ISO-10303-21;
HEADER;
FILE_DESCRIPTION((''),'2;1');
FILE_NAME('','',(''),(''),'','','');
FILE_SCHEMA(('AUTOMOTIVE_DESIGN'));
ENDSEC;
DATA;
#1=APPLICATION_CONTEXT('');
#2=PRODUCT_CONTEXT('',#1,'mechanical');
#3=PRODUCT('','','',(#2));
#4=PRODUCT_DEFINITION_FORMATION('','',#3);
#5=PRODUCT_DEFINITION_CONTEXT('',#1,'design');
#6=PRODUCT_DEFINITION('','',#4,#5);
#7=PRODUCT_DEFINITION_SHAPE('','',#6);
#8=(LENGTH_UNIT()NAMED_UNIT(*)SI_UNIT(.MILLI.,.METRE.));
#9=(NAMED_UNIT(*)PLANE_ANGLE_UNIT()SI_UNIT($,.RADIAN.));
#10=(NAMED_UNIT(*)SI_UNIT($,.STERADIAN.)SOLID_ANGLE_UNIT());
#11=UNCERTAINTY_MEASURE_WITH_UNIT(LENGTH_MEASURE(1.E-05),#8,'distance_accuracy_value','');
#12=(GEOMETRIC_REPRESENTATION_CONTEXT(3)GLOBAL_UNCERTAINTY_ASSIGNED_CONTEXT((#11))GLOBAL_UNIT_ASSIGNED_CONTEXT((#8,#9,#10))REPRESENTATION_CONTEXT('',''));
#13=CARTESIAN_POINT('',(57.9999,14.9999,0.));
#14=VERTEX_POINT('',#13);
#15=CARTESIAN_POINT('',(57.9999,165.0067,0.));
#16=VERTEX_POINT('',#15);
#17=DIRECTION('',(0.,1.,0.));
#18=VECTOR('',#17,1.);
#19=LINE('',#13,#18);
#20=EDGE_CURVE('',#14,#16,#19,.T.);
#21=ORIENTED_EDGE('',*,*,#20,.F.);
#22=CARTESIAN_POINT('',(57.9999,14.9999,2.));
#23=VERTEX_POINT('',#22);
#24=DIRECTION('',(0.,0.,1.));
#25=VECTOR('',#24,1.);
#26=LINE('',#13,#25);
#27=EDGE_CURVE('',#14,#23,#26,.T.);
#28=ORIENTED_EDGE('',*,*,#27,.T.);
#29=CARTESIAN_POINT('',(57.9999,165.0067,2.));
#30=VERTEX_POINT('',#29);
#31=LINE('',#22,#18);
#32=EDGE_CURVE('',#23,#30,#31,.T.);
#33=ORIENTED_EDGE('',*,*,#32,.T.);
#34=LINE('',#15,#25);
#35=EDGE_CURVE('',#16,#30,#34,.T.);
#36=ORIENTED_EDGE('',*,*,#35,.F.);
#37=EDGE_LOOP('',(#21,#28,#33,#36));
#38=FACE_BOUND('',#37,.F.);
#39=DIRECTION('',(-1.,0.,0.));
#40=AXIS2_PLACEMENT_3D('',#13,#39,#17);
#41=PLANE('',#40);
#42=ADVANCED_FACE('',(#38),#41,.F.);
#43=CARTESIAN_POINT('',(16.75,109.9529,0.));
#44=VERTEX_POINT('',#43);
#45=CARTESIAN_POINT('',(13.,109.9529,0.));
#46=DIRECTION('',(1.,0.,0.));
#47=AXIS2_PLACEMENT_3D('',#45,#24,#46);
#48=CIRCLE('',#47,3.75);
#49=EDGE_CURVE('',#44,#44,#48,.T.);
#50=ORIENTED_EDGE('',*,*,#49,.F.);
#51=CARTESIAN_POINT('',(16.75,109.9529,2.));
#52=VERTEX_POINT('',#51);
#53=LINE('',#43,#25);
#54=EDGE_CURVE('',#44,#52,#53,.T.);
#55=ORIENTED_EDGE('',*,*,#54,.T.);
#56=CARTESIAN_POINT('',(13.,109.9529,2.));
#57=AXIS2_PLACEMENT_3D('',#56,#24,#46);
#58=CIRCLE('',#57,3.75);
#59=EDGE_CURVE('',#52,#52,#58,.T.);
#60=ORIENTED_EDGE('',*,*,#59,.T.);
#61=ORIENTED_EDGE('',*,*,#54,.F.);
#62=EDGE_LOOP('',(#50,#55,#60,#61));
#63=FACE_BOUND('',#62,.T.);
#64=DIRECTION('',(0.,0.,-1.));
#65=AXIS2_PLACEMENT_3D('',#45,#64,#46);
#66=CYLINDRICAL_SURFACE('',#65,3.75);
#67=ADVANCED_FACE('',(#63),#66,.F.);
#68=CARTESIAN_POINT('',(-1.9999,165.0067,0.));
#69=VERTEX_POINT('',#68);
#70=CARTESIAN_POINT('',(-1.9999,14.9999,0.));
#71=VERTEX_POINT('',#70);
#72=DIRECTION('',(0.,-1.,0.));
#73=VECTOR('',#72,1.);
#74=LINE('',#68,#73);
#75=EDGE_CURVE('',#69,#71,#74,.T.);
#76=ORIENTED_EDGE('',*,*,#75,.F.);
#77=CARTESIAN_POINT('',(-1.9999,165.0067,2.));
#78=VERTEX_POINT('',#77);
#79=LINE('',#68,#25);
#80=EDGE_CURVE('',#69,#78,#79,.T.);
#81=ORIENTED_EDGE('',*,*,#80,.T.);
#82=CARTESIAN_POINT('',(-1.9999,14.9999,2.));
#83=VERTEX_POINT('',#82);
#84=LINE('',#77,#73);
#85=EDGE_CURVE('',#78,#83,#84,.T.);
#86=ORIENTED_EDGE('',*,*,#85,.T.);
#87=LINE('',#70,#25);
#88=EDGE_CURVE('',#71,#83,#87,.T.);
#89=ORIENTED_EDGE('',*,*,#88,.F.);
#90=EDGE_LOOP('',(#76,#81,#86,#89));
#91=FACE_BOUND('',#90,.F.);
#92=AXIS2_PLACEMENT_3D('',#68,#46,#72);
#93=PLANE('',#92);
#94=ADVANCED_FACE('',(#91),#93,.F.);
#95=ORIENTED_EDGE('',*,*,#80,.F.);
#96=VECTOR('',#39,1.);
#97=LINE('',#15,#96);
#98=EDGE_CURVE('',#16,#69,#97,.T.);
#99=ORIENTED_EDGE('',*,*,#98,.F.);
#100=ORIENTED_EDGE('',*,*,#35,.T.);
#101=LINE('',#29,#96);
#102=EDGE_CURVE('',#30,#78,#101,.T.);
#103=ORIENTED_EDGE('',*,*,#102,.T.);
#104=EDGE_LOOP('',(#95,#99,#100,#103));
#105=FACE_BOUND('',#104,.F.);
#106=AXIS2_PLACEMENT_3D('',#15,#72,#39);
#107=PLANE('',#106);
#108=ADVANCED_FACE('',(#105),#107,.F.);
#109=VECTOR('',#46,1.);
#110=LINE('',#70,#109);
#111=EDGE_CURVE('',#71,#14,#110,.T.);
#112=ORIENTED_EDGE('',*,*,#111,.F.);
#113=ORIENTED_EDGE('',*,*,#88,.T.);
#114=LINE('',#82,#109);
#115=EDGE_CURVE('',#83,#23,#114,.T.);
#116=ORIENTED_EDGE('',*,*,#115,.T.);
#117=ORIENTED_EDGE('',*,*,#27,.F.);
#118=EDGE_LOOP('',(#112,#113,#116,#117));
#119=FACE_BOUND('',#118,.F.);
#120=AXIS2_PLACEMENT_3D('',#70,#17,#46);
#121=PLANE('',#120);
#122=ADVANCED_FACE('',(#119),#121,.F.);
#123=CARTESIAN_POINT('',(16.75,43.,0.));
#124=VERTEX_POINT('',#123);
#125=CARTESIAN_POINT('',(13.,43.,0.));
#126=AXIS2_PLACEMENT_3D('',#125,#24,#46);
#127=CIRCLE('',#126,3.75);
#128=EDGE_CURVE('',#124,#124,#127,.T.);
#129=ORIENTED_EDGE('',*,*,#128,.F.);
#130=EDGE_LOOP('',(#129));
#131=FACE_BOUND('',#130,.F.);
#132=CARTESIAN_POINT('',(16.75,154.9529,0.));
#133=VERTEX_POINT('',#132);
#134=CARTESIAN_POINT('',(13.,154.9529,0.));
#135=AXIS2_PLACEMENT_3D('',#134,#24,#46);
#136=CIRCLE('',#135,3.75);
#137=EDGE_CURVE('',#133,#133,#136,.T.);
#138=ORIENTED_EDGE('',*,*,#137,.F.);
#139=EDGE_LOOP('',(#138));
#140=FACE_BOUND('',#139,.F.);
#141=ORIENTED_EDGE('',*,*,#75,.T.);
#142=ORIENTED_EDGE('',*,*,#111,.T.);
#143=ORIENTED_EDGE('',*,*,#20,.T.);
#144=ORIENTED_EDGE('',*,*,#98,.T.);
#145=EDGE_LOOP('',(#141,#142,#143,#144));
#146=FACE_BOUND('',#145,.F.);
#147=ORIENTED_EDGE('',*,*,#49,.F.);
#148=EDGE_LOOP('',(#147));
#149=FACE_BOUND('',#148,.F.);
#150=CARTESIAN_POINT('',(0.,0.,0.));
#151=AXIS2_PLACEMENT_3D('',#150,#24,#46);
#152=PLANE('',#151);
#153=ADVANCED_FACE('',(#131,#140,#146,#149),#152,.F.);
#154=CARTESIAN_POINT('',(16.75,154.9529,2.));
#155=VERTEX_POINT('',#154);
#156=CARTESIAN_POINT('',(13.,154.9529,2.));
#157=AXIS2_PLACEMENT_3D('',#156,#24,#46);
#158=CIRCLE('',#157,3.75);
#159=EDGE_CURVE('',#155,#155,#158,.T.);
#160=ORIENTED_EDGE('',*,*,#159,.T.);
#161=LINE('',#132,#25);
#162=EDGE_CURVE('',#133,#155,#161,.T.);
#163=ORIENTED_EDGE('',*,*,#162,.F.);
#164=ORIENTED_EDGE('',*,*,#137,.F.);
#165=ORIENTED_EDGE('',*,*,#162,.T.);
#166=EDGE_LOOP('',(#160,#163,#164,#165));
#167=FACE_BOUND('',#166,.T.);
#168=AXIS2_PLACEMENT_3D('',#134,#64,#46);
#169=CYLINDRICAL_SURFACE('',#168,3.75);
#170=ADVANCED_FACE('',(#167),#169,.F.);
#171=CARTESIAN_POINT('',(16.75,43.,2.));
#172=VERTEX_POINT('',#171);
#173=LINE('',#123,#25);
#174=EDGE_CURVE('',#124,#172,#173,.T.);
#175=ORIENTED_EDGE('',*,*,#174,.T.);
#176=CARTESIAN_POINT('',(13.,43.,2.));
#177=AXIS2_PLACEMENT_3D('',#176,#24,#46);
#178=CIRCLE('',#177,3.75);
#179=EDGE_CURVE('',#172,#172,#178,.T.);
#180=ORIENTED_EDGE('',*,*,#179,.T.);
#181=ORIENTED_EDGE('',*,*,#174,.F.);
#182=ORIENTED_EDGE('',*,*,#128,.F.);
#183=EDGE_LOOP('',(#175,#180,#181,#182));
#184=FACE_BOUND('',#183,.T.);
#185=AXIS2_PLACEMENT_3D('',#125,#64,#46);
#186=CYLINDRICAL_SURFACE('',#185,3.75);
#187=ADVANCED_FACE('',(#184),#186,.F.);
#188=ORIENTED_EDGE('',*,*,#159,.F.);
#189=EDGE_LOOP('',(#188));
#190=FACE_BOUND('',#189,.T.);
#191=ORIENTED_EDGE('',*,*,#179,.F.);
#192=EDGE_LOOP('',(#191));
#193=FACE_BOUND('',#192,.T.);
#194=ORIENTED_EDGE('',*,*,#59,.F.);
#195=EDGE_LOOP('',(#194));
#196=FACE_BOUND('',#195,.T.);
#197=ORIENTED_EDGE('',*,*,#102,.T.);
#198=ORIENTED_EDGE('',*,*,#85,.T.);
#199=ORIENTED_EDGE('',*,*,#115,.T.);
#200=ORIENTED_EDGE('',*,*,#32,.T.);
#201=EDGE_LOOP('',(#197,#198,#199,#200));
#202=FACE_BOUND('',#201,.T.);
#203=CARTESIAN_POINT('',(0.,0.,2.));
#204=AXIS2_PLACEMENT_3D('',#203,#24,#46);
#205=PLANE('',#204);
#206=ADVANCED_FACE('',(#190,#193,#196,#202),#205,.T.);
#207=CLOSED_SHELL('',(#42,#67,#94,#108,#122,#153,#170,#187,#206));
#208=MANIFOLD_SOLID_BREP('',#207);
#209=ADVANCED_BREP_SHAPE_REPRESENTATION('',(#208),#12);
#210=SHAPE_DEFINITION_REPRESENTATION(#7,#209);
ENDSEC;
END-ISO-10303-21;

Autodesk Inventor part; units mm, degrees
ref_plane "YZ Plane" through (0, 0, 0) normal (1, 0, 0) x (0, 1, 0)
ref_plane "XZ Plane" through (0, 0, 0) normal (0, 1, 0) x (-1, 0, 0)
ref_plane "XY Plane" through (0, 0, 0) normal (0, 0, 1) x (1, 0, 0)
sketch "Sketch1" plane through (0, 0, 0) normal (0, 0, 1) x (1, 0, 0)
  line L0 (16.1981, 153.4586) -> (16.9799, 152.4795) construction
  arc A0 (16.1981, 153.4586) -> (16.1981, 156.4471) centre (13, 154.9529) ccw construction
  line L1 (16.9799, 157.4262) -> (16.1981, 156.4471) construction
  arc A1 (16.9799, 157.4262) -> (15.4733, 158.9328) centre (16.1422, 158.0951) ccw construction
  line L2 (14.4942, 158.151) -> (15.4733, 158.9328) construction
  arc A2 (14.4942, 158.151) -> (11.5058, 158.151) centre (13, 154.9529) ccw construction
  line L3 (10.5267, 158.9328) -> (11.5058, 158.151) construction
  arc A3 (10.5267, 158.9328) -> (9.0201, 157.4262) centre (9.8578, 158.0951) ccw construction
  line L4 (9.8019, 156.4471) -> (9.0201, 157.4262) construction
  arc A4 (9.8019, 156.4471) -> (9.8019, 153.4586) centre (13, 154.9529) ccw construction
  line L5 (9.0201, 152.4795) -> (9.8019, 153.4586) construction
  arc A5 (9.0201, 152.4795) -> (10.5267, 150.9729) centre (9.8578, 151.8106) ccw construction
  line L6 (11.5058, 151.7547) -> (10.5267, 150.9729) construction
  arc A6 (11.5058, 151.7547) -> (14.4942, 151.7547) centre (13, 154.9529) ccw construction
  line L7 (15.4733, 150.9729) -> (14.4942, 151.7547) construction
  arc A7 (15.4733, 150.9729) -> (16.9799, 152.4795) centre (16.1422, 151.8106) ccw construction
  line L8 (26.6999, 145.0719) -> (26.6999, 142.2529) construction
  arc A8 (26.6999, 145.0719) -> (26.319, 145.4529) centre (26.319, 145.0719) ccw construction
  line L9 (22.88, 145.4529) -> (26.319, 145.4529) construction
  arc A9 (22.88, 145.4529) -> (22.5, 145.0729) centre (22.88, 145.0729) ccw construction
  line L10 (22.5, 141.6339) -> (22.5, 145.0729) construction
  arc A10 (22.5, 141.6339) -> (22.881, 141.2529) centre (22.881, 141.6339) ccw construction
  line L11 (25.7, 141.2529) -> (22.881, 141.2529) construction
  arc A11 (25.7, 141.2529) -> (26.6999, 142.2529) centre (25.7, 142.2529) ccw construction
  line L12 (-0.6999, 164.8338) -> (-0.6999, 167.6528) construction
  arc A12 (-0.6999, 164.8338) -> (-0.3189, 164.4528) centre (-0.3189, 164.8338) ccw construction
  line L13 (3.12, 164.4528) -> (-0.3189, 164.4528) construction
  arc A13 (3.12, 164.4528) -> (3.5, 164.8328) centre (3.12, 164.8328) ccw construction
  line L14 (3.5, 168.2718) -> (3.5, 164.8328) construction
  arc A14 (3.5, 168.2718) -> (3.119, 168.6528) centre (3.119, 168.2718) ccw construction
  line L15 (0.3001, 168.6528) -> (3.119, 168.6528) construction
  arc A15 (0.3001, 168.6528) -> (-0.6999, 167.6528) centre (0.3001, 167.6528) ccw construction
  line L16 (22.881, 168.6528) -> (25.7, 168.6528) construction
  arc A16 (22.881, 168.6528) -> (22.5, 168.2718) centre (22.881, 168.2718) ccw construction
  line L17 (22.5, 164.8328) -> (22.5, 168.2718) construction
  arc A17 (22.5, 164.8328) -> (22.88, 164.4528) centre (22.88, 164.8328) ccw construction
  line L18 (26.319, 164.4528) -> (22.88, 164.4528) construction
  arc A18 (26.319, 164.4528) -> (26.6999, 164.8338) centre (26.319, 164.8338) ccw construction
  line L19 (26.6999, 167.6528) -> (26.6999, 164.8338) construction
  arc A19 (26.6999, 167.6528) -> (25.7, 168.6528) centre (25.7, 167.6528) ccw construction
  line L20 (-0.3189, 145.4529) -> (3.12, 145.4529) construction
  arc A20 (-0.3189, 145.4529) -> (-0.6999, 145.0719) centre (-0.3189, 145.0719) ccw construction
  line L21 (-0.6999, 142.2529) -> (-0.6999, 145.0719) construction
  arc A21 (-0.6999, 142.2529) -> (0.3001, 141.2529) centre (0.3001, 142.2529) ccw construction
  line L22 (3.119, 141.2529) -> (0.3001, 141.2529) construction
  arc A22 (3.119, 141.2529) -> (3.5, 141.6339) centre (3.119, 141.6339) ccw construction
  line L23 (3.5, 145.0729) -> (3.5, 141.6339) construction
  arc A23 (3.5, 145.0729) -> (3.12, 145.4529) centre (3.12, 145.0729) ccw construction
  line L24 (8.5, 142.2104) -> (5.2675, 142.2104) construction
  arc A24 (9, 141.7104) -> (8.5, 142.2104) centre (8.5, 141.7104) ccw construction
  line L25 (9, 140.4529) -> (9, 141.7104) construction
  arc A25 (8.5, 139.9529) -> (9, 140.4529) centre (8.5, 140.4529) ccw construction
  line L26 (0.0001, 139.9529) -> (8.5, 139.9529) construction
  arc A26 (-1.9999, 141.9529) -> (0.0001, 139.9529) centre (0.0001, 141.9529) ccw construction
  line L27 (-1.9999, 150.4529) -> (-1.9999, 141.9529) construction
  arc A27 (-1.4999, 150.9529) -> (-1.9999, 150.4529) centre (-1.4999, 150.4529) ccw construction
  line L28 (-0.2425, 150.9529) -> (-1.4999, 150.9529) construction
  arc A28 (0.2575, 150.4529) -> (-0.2425, 150.9529) centre (-0.2425, 150.4529) ccw construction
  line L29 (0.2575, 147.2203) -> (0.2575, 150.4529) construction
  arc A29 (0.2575, 147.2203) -> (0.7572, 146.7029) centre (0.7572, 147.2029) ccw construction
  line L30 (2.7398, 146.7029) -> (0.7572, 146.7029) construction
  arc A30 (2.7398, 146.7029) -> (3.0934, 146.8493) centre (2.7398, 147.2029) ccw construction
  line L31 (7.0189, 150.7749) -> (3.0934, 146.8493) construction
  arc A31 (7.0189, 150.7749) -> (7.1653, 151.1284) centre (6.6653, 151.1284) ccw construction
  line L32 (7.1653, 154.0029) -> (7.1653, 151.1284) construction
  line L33 (7.6753, 154.9529) -> (7.1653, 154.0029) construction
  line L34 (7.1653, 155.9029) -> (7.6753, 154.9529) construction
  line L35 (7.1653, 158.7773) -> (7.1653, 155.9029) construction
  arc A32 (7.1653, 158.7773) -> (7.0189, 159.1309) centre (6.6653, 158.7773) ccw construction
  line L36 (3.0934, 163.0564) -> (7.0189, 159.1309) construction
  arc A33 (3.0934, 163.0564) -> (2.7398, 163.2028) centre (2.7398, 162.7028) ccw construction
  line L37 (0.7572, 163.2028) -> (2.7398, 163.2028) construction
  arc A34 (0.7572, 163.2028) -> (0.2575, 162.6854) centre (0.7572, 162.7028) ccw construction
  line L38 (0.2575, 159.4529) -> (0.2575, 162.6854) construction
  arc A35 (-0.2425, 158.9529) -> (0.2575, 159.4529) centre (-0.2425, 159.4529) ccw construction
  line L39 (-1.4999, 158.9529) -> (-0.2425, 158.9529) construction
  arc A36 (-1.9999, 159.4529) -> (-1.4999, 158.9529) centre (-1.4999, 159.4529) ccw construction
  line L40 (-1.9999, 167.9528) -> (-1.9999, 159.4529) construction
  arc A37 (0.0001, 169.9528) -> (-1.9999, 167.9528) centre (0.0001, 167.9528) ccw construction
  line L41 (8.5, 169.9528) -> (0.0001, 169.9528) construction
  arc A38 (9, 169.4528) -> (8.5, 169.9528) centre (8.5, 169.4528) ccw construction
  line L42 (9, 168.1953) -> (9, 169.4528) construction
  arc A39 (8.5, 167.6953) -> (9, 168.1953) centre (8.5, 168.1953) ccw construction
  line L43 (5.2675, 167.6953) -> (8.5, 167.6953) construction
  arc A40 (5.2675, 167.6953) -> (4.75, 167.1956) centre (5.25, 167.1956) ccw construction
  line L44 (4.75, 165.2131) -> (4.75, 167.1956) construction
  arc A41 (4.75, 165.2131) -> (4.8965, 164.8595) centre (5.25, 165.2131) ccw construction
  line L45 (8.822, 160.934) -> (4.8965, 164.8595) construction
  arc A42 (8.822, 160.934) -> (9.1756, 160.7875) centre (9.1756, 161.2875) ccw construction
  line L46 (12.1125, 160.7875) -> (9.1756, 160.7875) construction
  line L47 (13.0625, 160.2775) -> (12.1125, 160.7875) construction
  line L48 (14.0125, 160.7875) -> (13.0625, 160.2775) construction
  line L49 (16.8245, 160.7875) -> (14.0125, 160.7875) construction
  arc A43 (16.8245, 160.7875) -> (17.178, 160.934) centre (16.8245, 161.2875) ccw construction
  line L50 (21.1035, 164.8595) -> (17.178, 160.934) construction
  arc A44 (21.1035, 164.8595) -> (21.25, 165.2131) centre (20.75, 165.2131) ccw construction
  line L51 (21.25, 167.1956) -> (21.25, 165.2131) construction
  arc A45 (21.25, 167.1956) -> (20.7325, 167.6953) centre (20.75, 167.1956) ccw construction
  line L52 (17.5, 167.6953) -> (20.7325, 167.6953) construction
  arc A46 (17, 168.1953) -> (17.5, 167.6953) centre (17.5, 168.1953) ccw construction
  line L53 (17, 169.4528) -> (17, 168.1953) construction
  arc A47 (17.5, 169.9528) -> (17, 169.4528) centre (17.5, 169.4528) ccw construction
  line L54 (26, 169.9528) -> (17.5, 169.9528) construction
  arc A48 (27.9999, 167.9528) -> (26, 169.9528) centre (26, 167.9528) ccw construction
  line L55 (27.9999, 159.4529) -> (27.9999, 167.9528) construction
  arc A49 (27.4999, 158.9529) -> (27.9999, 159.4529) centre (27.4999, 159.4529) ccw construction
  line L56 (26.2425, 158.9529) -> (27.4999, 158.9529) construction
  arc A50 (25.7425, 159.4529) -> (26.2425, 158.9529) centre (26.2425, 159.4529) ccw construction
  line L57 (25.7425, 162.6854) -> (25.7425, 159.4529) construction
  arc A51 (25.7425, 162.6854) -> (25.2428, 163.2028) centre (25.2428, 162.7028) ccw construction
  line L58 (23.2602, 163.2028) -> (25.2428, 163.2028) construction
  arc A52 (23.2602, 163.2028) -> (22.9066, 163.0564) centre (23.2602, 162.7028) ccw construction
  line L59 (18.9811, 159.1309) -> (22.9066, 163.0564) construction
  arc A53 (18.9811, 159.1309) -> (18.8347, 158.7773) centre (19.3347, 158.7773) ccw construction
  line L60 (18.8347, 155.9029) -> (18.8347, 158.7773) construction
  line L61 (18.3247, 154.9529) -> (18.8347, 155.9029) construction
  line L62 (18.8347, 154.0029) -> (18.3247, 154.9529) construction
  line L63 (18.8347, 151.1284) -> (18.8347, 154.0029) construction
  arc A54 (18.8347, 151.1284) -> (18.9811, 150.7749) centre (19.3347, 151.1284) ccw construction
  line L64 (22.9066, 146.8493) -> (18.9811, 150.7749) construction
  arc A55 (22.9066, 146.8493) -> (23.2602, 146.7029) centre (23.2602, 147.2029) ccw construction
  line L65 (25.2428, 146.7029) -> (23.2602, 146.7029) construction
  arc A56 (25.2428, 146.7029) -> (25.7425, 147.2203) centre (25.2428, 147.2029) ccw construction
  line L66 (25.7425, 150.4529) -> (25.7425, 147.2203) construction
  arc A57 (26.2425, 150.9529) -> (25.7425, 150.4529) centre (26.2425, 150.4529) ccw construction
  line L67 (27.4999, 150.9529) -> (26.2425, 150.9529) construction
  arc A58 (27.9999, 150.4529) -> (27.4999, 150.9529) centre (27.4999, 150.4529) ccw construction
  line L68 (27.9999, 141.9529) -> (27.9999, 150.4529) construction
  arc A59 (26, 139.9529) -> (27.9999, 141.9529) centre (26, 141.9529) ccw construction
  line L69 (17.5, 139.9529) -> (26, 139.9529) construction
  arc A60 (17, 140.4529) -> (17.5, 139.9529) centre (17.5, 140.4529) ccw construction
  line L70 (17, 141.7104) -> (17, 140.4529) construction
  arc A61 (17.5, 142.2104) -> (17, 141.7104) centre (17.5, 141.7104) ccw construction
  line L71 (20.7325, 142.2104) -> (17.5, 142.2104) construction
  arc A62 (20.7325, 142.2104) -> (21.25, 142.7101) centre (20.75, 142.7101) ccw construction
  line L72 (21.25, 144.6927) -> (21.25, 142.7101) construction
  arc A63 (21.25, 144.6927) -> (21.1035, 145.0462) centre (20.75, 144.6927) ccw construction
  line L73 (17.178, 148.9717) -> (21.1035, 145.0462) construction
  arc A64 (17.178, 148.9717) -> (16.8245, 149.1182) centre (16.8245, 148.6182) ccw construction
  line L74 (14.0125, 149.1182) -> (16.8245, 149.1182) construction
  line L75 (13.0625, 149.6282) -> (14.0125, 149.1182) construction
  line L76 (12.1125, 149.1182) -> (13.0625, 149.6282) construction
  line L77 (9.1756, 149.1182) -> (12.1125, 149.1182) construction
  arc A65 (9.1756, 149.1182) -> (8.822, 148.9717) centre (9.1756, 148.6182) ccw construction
  line L78 (4.8965, 145.0462) -> (8.822, 148.9717) construction
  arc A66 (4.8965, 145.0462) -> (4.75, 144.6927) centre (5.25, 144.6927) ccw construction
  line L79 (4.75, 142.7101) -> (4.75, 144.6927) construction
  arc A67 (4.75, 142.7101) -> (5.2675, 142.2104) centre (5.25, 142.7101) ccw construction
  line L80 (16.1981, -1.4942) -> (16.9799, -2.4733) construction
  arc A68 (16.1981, -1.4942) -> (16.1981, 1.4942) centre (13, 0) ccw construction
  line L81 (16.9799, 2.4733) -> (16.1981, 1.4942) construction
  arc A69 (16.9799, 2.4733) -> (15.4733, 3.9799) centre (16.1422, 3.1422) ccw construction
  line L82 (14.4942, 3.1981) -> (15.4733, 3.9799) construction
  arc A70 (14.4942, 3.1981) -> (11.5058, 3.1981) centre (13, 0) ccw construction
  line L83 (10.5267, 3.9799) -> (11.5058, 3.1981) construction
  arc A71 (10.5267, 3.9799) -> (9.0201, 2.4733) centre (9.8578, 3.1422) ccw construction
  line L84 (9.8019, 1.4942) -> (9.0201, 2.4733) construction
  arc A72 (9.8019, 1.4942) -> (9.8019, -1.4942) centre (13, 0) ccw construction
  line L85 (9.0201, -2.4733) -> (9.8019, -1.4942) construction
  arc A73 (9.0201, -2.4733) -> (10.5267, -3.9799) centre (9.8578, -3.1422) ccw construction
  line L86 (11.5058, -3.1981) -> (10.5267, -3.9799) construction
  arc A74 (11.5058, -3.1981) -> (14.4942, -3.1981) centre (13, 0) ccw construction
  line L87 (15.4733, -3.9799) -> (14.4942, -3.1981) construction
  arc A75 (15.4733, -3.9799) -> (16.9799, -2.4733) centre (16.1422, -3.1422) ccw construction
  line L88 (26.6999, -9.881) -> (26.6999, -12.6999) construction
  arc A76 (26.6999, -9.881) -> (26.319, -9.5) centre (26.319, -9.881) ccw construction
  line L89 (22.88, -9.5) -> (26.319, -9.5) construction
  arc A77 (22.88, -9.5) -> (22.5, -9.88) centre (22.88, -9.88) ccw construction
  line L90 (22.5, -13.3189) -> (22.5, -9.88) construction
  arc A78 (22.5, -13.3189) -> (22.881, -13.6999) centre (22.881, -13.3189) ccw construction
  line L91 (25.7, -13.6999) -> (22.881, -13.6999) construction
  arc A79 (25.7, -13.6999) -> (26.6999, -12.6999) centre (25.7, -12.6999) ccw construction
  line L92 (-0.6999, 9.881) -> (-0.6999, 12.6999) construction
  arc A80 (-0.6999, 9.881) -> (-0.3189, 9.5) centre (-0.3189, 9.881) ccw construction
  line L93 (3.12, 9.5) -> (-0.3189, 9.5) construction
  arc A81 (3.12, 9.5) -> (3.5, 9.88) centre (3.12, 9.88) ccw construction
  line L94 (3.5, 13.3189) -> (3.5, 9.88) construction
  arc A82 (3.5, 13.3189) -> (3.119, 13.6999) centre (3.119, 13.3189) ccw construction
  line L95 (0.3001, 13.6999) -> (3.119, 13.6999) construction
  arc A83 (0.3001, 13.6999) -> (-0.6999, 12.6999) centre (0.3001, 12.6999) ccw construction
  line L96 (22.881, 13.6999) -> (25.7, 13.6999) construction
  arc A84 (22.881, 13.6999) -> (22.5, 13.3189) centre (22.881, 13.3189) ccw construction
  line L97 (22.5, 9.88) -> (22.5, 13.3189) construction
  arc A85 (22.5, 9.88) -> (22.88, 9.5) centre (22.88, 9.88) ccw construction
  line L98 (26.319, 9.5) -> (22.88, 9.5) construction
  arc A86 (26.319, 9.5) -> (26.6999, 9.881) centre (26.319, 9.881) ccw construction
  line L99 (26.6999, 12.6999) -> (26.6999, 9.881) construction
  arc A87 (26.6999, 12.6999) -> (25.7, 13.6999) centre (25.7, 12.6999) ccw construction
  line L100 (-0.3189, -9.5) -> (3.12, -9.5) construction
  arc A88 (-0.3189, -9.5) -> (-0.6999, -9.881) centre (-0.3189, -9.881) ccw construction
  line L101 (-0.6999, -12.6999) -> (-0.6999, -9.881) construction
  arc A89 (-0.6999, -12.6999) -> (0.3001, -13.6999) centre (0.3001, -12.6999) ccw construction
  line L102 (3.119, -13.6999) -> (0.3001, -13.6999) construction
  arc A90 (3.119, -13.6999) -> (3.5, -13.3189) centre (3.119, -13.3189) ccw construction
  line L103 (3.5, -9.88) -> (3.5, -13.3189) construction
  arc A91 (3.5, -9.88) -> (3.12, -9.5) centre (3.12, -9.88) ccw construction
  line L104 (8.5, -12.7425) -> (5.2675, -12.7425) construction
  arc A92 (9, -13.2425) -> (8.5, -12.7425) centre (8.5, -13.2425) ccw construction
  line L105 (9, -14.4999) -> (9, -13.2425) construction
  arc A93 (8.5, -14.9999) -> (9, -14.4999) centre (8.5, -14.4999) ccw construction
  line L106 (0.0001, -14.9999) -> (8.5, -14.9999) construction
  arc A94 (-1.9999, -12.9999) -> (0.0001, -14.9999) centre (0.0001, -12.9999) ccw construction
  line L107 (-1.9999, -4.5) -> (-1.9999, -12.9999) construction
  arc A95 (-1.4999, -4) -> (-1.9999, -4.5) centre (-1.4999, -4.5) ccw construction
  line L108 (-0.2425, -4) -> (-1.4999, -4) construction
  arc A96 (0.2575, -4.5) -> (-0.2425, -4) centre (-0.2425, -4.5) ccw construction
  line L109 (0.2575, -7.7325) -> (0.2575, -4.5) construction
  arc A97 (0.2575, -7.7325) -> (0.7572, -8.25) centre (0.7572, -7.75) ccw construction
  line L110 (2.7398, -8.25) -> (0.7572, -8.25) construction
  arc A98 (2.7398, -8.25) -> (3.0934, -8.1035) centre (2.7398, -7.75) ccw construction
  line L111 (7.0189, -4.178) -> (3.0934, -8.1035) construction
  arc A99 (7.0189, -4.178) -> (7.1653, -3.8245) centre (6.6653, -3.8245) ccw construction
  line L112 (7.1653, -0.95) -> (7.1653, -3.8245) construction
  line L113 (7.6753, 0) -> (7.1653, -0.95) construction
  line L114 (7.1653, 0.95) -> (7.6753, 0) construction
  line L115 (7.1653, 3.8245) -> (7.1653, 0.95) construction
  arc A100 (7.1653, 3.8245) -> (7.0189, 4.178) centre (6.6653, 3.8245) ccw construction
  line L116 (3.0934, 8.1035) -> (7.0189, 4.178) construction
  arc A101 (3.0934, 8.1035) -> (2.7398, 8.25) centre (2.7398, 7.75) ccw construction
  line L117 (0.7572, 8.25) -> (2.7398, 8.25) construction
  arc A102 (0.7572, 8.25) -> (0.2575, 7.7325) centre (0.7572, 7.75) ccw construction
  line L118 (0.2575, 4.5) -> (0.2575, 7.7325) construction
  arc A103 (-0.2425, 4) -> (0.2575, 4.5) centre (-0.2425, 4.5) ccw construction
  line L119 (-1.4999, 4) -> (-0.2425, 4) construction
  arc A104 (-1.9999, 4.5) -> (-1.4999, 4) centre (-1.4999, 4.5) ccw construction
  line L120 (-1.9999, 12.9999) -> (-1.9999, 4.5) construction
  arc A105 (0.0001, 14.9999) -> (-1.9999, 12.9999) centre (0.0001, 12.9999) ccw construction
  line L121 (8.5, 14.9999) -> (0.0001, 14.9999) construction
  arc A106 (9, 14.4999) -> (8.5, 14.9999) centre (8.5, 14.4999) ccw construction
  line L122 (9, 13.2425) -> (9, 14.4999) construction
  arc A107 (8.5, 12.7425) -> (9, 13.2425) centre (8.5, 13.2425) ccw construction
  line L123 (5.2675, 12.7425) -> (8.5, 12.7425) construction
  arc A108 (5.2675, 12.7425) -> (4.75, 12.2428) centre (5.25, 12.2428) ccw construction
  line L124 (4.75, 10.2602) -> (4.75, 12.2428) construction
  arc A109 (4.75, 10.2602) -> (4.8965, 9.9066) centre (5.25, 10.2602) ccw construction
  line L125 (8.822, 5.9811) -> (4.8965, 9.9066) construction
  arc A110 (8.822, 5.9811) -> (9.1756, 5.8347) centre (9.1756, 6.3347) ccw construction
  line L126 (12.1125, 5.8347) -> (9.1756, 5.8347) construction
  line L127 (13.0625, 5.3247) -> (12.1125, 5.8347) construction
  line L128 (14.0125, 5.8347) -> (13.0625, 5.3247) construction
  line L129 (16.8245, 5.8347) -> (14.0125, 5.8347) construction
  arc A111 (16.8245, 5.8347) -> (17.178, 5.9811) centre (16.8245, 6.3347) ccw construction
  line L130 (21.1035, 9.9066) -> (17.178, 5.9811) construction
  arc A112 (21.1035, 9.9066) -> (21.25, 10.2602) centre (20.75, 10.2602) ccw construction
  line L131 (21.25, 12.2428) -> (21.25, 10.2602) construction
  arc A113 (21.25, 12.2428) -> (20.7325, 12.7425) centre (20.75, 12.2428) ccw construction
  line L132 (17.5, 12.7425) -> (20.7325, 12.7425) construction
  arc A114 (17, 13.2425) -> (17.5, 12.7425) centre (17.5, 13.2425) ccw construction
  line L133 (17, 14.4999) -> (17, 13.2425) construction
  arc A115 (17.5, 14.9999) -> (17, 14.4999) centre (17.5, 14.4999) ccw construction
  line L134 (26, 14.9999) -> (17.5, 14.9999) construction
  arc A116 (27.9999, 12.9999) -> (26, 14.9999) centre (26, 12.9999) ccw construction
  line L135 (27.9999, 4.5) -> (27.9999, 12.9999) construction
  arc A117 (27.4999, 4) -> (27.9999, 4.5) centre (27.4999, 4.5) ccw construction
  line L136 (26.2425, 4) -> (27.4999, 4) construction
  arc A118 (25.7425, 4.5) -> (26.2425, 4) centre (26.2425, 4.5) ccw construction
  line L137 (25.7425, 7.7325) -> (25.7425, 4.5) construction
  arc A119 (25.7425, 7.7325) -> (25.2428, 8.25) centre (25.2428, 7.75) ccw construction
  line L138 (23.2602, 8.25) -> (25.2428, 8.25) construction
  arc A120 (23.2602, 8.25) -> (22.9066, 8.1035) centre (23.2602, 7.75) ccw construction
  line L139 (18.9811, 4.178) -> (22.9066, 8.1035) construction
  arc A121 (18.9811, 4.178) -> (18.8347, 3.8245) centre (19.3347, 3.8245) ccw construction
  line L140 (18.8347, 0.95) -> (18.8347, 3.8245) construction
  line L141 (18.3247, 0) -> (18.8347, 0.95) construction
  line L142 (18.8347, -0.95) -> (18.3247, 0) construction
  line L143 (18.8347, -3.8245) -> (18.8347, -0.95) construction
  arc A122 (18.8347, -3.8245) -> (18.9811, -4.178) centre (19.3347, -3.8245) ccw construction
  line L144 (22.9066, -8.1035) -> (18.9811, -4.178) construction
  arc A123 (22.9066, -8.1035) -> (23.2602, -8.25) centre (23.2602, -7.75) ccw construction
  line L145 (25.2428, -8.25) -> (23.2602, -8.25) construction
  arc A124 (25.2428, -8.25) -> (25.7425, -7.7325) centre (25.2428, -7.75) ccw construction
  line L146 (25.7425, -4.5) -> (25.7425, -7.7325) construction
  arc A125 (26.2425, -4) -> (25.7425, -4.5) centre (26.2425, -4.5) ccw construction
  line L147 (27.4999, -4) -> (26.2425, -4) construction
  arc A126 (27.9999, -4.5) -> (27.4999, -4) centre (27.4999, -4.5) ccw construction
  line L148 (27.9999, -12.9999) -> (27.9999, -4.5) construction
  arc A127 (26, -14.9999) -> (27.9999, -12.9999) centre (26, -12.9999) ccw construction
  line L149 (17.5, -14.9999) -> (26, -14.9999) construction
  arc A128 (17, -14.4999) -> (17.5, -14.9999) centre (17.5, -14.4999) ccw construction
  line L150 (17, -13.2425) -> (17, -14.4999) construction
  arc A129 (17.5, -12.7425) -> (17, -13.2425) centre (17.5, -13.2425) ccw construction
  line L151 (20.7325, -12.7425) -> (17.5, -12.7425) construction
  arc A130 (20.7325, -12.7425) -> (21.25, -12.2428) centre (20.75, -12.2428) ccw construction
  line L152 (21.25, -10.2602) -> (21.25, -12.2428) construction
  arc A131 (21.25, -10.2602) -> (21.1035, -9.9066) centre (20.75, -10.2602) ccw construction
  line L153 (17.178, -5.9811) -> (21.1035, -9.9066) construction
  arc A132 (17.178, -5.9811) -> (16.8245, -5.8347) centre (16.8245, -6.3347) ccw construction
  line L154 (14.0125, -5.8347) -> (16.8245, -5.8347) construction
  line L155 (13.0625, -5.3247) -> (14.0125, -5.8347) construction
  line L156 (12.1125, -5.8347) -> (13.0625, -5.3247) construction
  line L157 (9.1756, -5.8347) -> (12.1125, -5.8347) construction
  arc A133 (9.1756, -5.8347) -> (8.822, -5.9811) centre (9.1756, -6.3347) ccw construction
  line L158 (4.8965, -9.9066) -> (8.822, -5.9811) construction
  arc A134 (4.8965, -9.9066) -> (4.75, -10.2602) centre (5.25, -10.2602) ccw construction
  line L159 (4.75, -12.2428) -> (4.75, -10.2602) construction
  arc A135 (4.75, -12.2428) -> (5.2675, -12.7425) centre (5.25, -12.2428) ccw construction
  line L160 (8.5, 122.6953) -> (5.2675, 122.6953) construction
  arc A136 (5.2675, 122.6953) -> (4.75, 122.1956) centre (5.25, 122.1956) ccw construction
  line L161 (4.75, 122.1956) -> (4.75, 120.2131) construction
  arc A137 (4.75, 120.2131) -> (4.8965, 119.8595) centre (5.25, 120.2131) ccw construction
  line L162 (4.8965, 119.8595) -> (8.822, 115.934) construction
  arc A138 (8.822, 115.934) -> (9.1756, 115.7875) centre (9.1756, 116.2875) ccw construction
  line L163 (9.1756, 115.7875) -> (12.1125, 115.7875) construction
  line L164 (12.1125, 115.7875) -> (13.0625, 115.2775) construction
  line L165 (13.0625, 115.2775) -> (14.0125, 115.7875) construction
  line L166 (14.0125, 115.7875) -> (16.8245, 115.7875) construction
  arc A139 (16.8245, 115.7875) -> (17.178, 115.934) centre (16.8245, 116.2875) ccw construction
  line L167 (17.178, 115.934) -> (21.1035, 119.8595) construction
  arc A140 (21.1035, 119.8595) -> (21.25, 120.2131) centre (20.75, 120.2131) ccw construction
  line L168 (21.25, 120.2131) -> (21.25, 122.1956) construction
  arc A141 (21.25, 122.1956) -> (20.7325, 122.6953) centre (20.75, 122.1956) ccw construction
  line L169 (20.7325, 122.6953) -> (17.5, 122.6953) construction
  arc A142 (17, 123.1953) -> (17.5, 122.6953) centre (17.5, 123.1953) ccw construction
  line L170 (17, 123.1953) -> (17, 124.4528) construction
  arc A143 (17.5, 124.9528) -> (17, 124.4528) centre (17.5, 124.4528) ccw construction
  line L171 (17.5, 124.9528) -> (26, 124.9528) construction
  arc A144 (27.9999, 122.9528) -> (26, 124.9528) centre (26, 122.9528) ccw construction
  line L172 (27.9999, 122.9528) -> (27.9999, 114.4529) construction
  arc A145 (27.4999, 113.9529) -> (27.9999, 114.4529) centre (27.4999, 114.4529) ccw construction
  line L173 (27.4999, 113.9529) -> (26.2425, 113.9529) construction
  arc A146 (25.7425, 114.4529) -> (26.2425, 113.9529) centre (26.2425, 114.4529) ccw construction
  line L174 (25.7425, 114.4529) -> (25.7425, 117.6854) construction
  arc A147 (25.7425, 117.6854) -> (25.2428, 118.2028) centre (25.2428, 117.7028) ccw construction
  line L175 (25.2428, 118.2028) -> (23.2602, 118.2028) construction
  arc A148 (23.2602, 118.2028) -> (22.9066, 118.0564) centre (23.2602, 117.7028) ccw construction
  line L176 (22.9066, 118.0564) -> (18.9811, 114.1309) construction
  arc A149 (18.9811, 114.1309) -> (18.8347, 113.7773) centre (19.3347, 113.7773) ccw construction
  line L177 (18.8347, 113.7773) -> (18.8347, 110.9029) construction
  line L178 (18.8347, 110.9029) -> (18.3247, 109.9529) construction
  line L179 (18.3247, 109.9529) -> (18.8347, 109.0029) construction
  line L180 (18.8347, 109.0029) -> (18.8347, 106.1284) construction
  arc A150 (18.8347, 106.1284) -> (18.9811, 105.7749) centre (19.3347, 106.1284) ccw construction
  line L181 (18.9811, 105.7749) -> (22.9066, 101.8493) construction
  arc A151 (22.9066, 101.8493) -> (23.2602, 101.7029) centre (23.2602, 102.2029) ccw construction
  line L182 (23.2602, 101.7029) -> (25.2428, 101.7029) construction
  arc A152 (25.2428, 101.7029) -> (25.7425, 102.2203) centre (25.2428, 102.2029) ccw construction
  line L183 (25.7425, 102.2203) -> (25.7425, 105.4529) construction
  arc A153 (26.2425, 105.9529) -> (25.7425, 105.4529) centre (26.2425, 105.4529) ccw construction
  line L184 (26.2425, 105.9529) -> (27.4999, 105.9529) construction
  arc A154 (27.9999, 105.4529) -> (27.4999, 105.9529) centre (27.4999, 105.4529) ccw construction
  line L185 (27.9999, 105.4529) -> (27.9999, 96.9529) construction
  arc A155 (26, 94.9529) -> (27.9999, 96.9529) centre (26, 96.9529) ccw construction
  line L186 (26, 94.9529) -> (17.5, 94.9529) construction
  arc A156 (17, 95.4529) -> (17.5, 94.9529) centre (17.5, 95.4529) ccw construction
  line L187 (17, 95.4529) -> (17, 96.7104) construction
  arc A157 (17.5, 97.2104) -> (17, 96.7104) centre (17.5, 96.7104) ccw construction
  line L188 (17.5, 97.2104) -> (20.7325, 97.2104) construction
  arc A158 (20.7325, 97.2104) -> (21.25, 97.7101) centre (20.75, 97.7101) ccw construction
  line L189 (21.25, 97.7101) -> (21.25, 99.6927) construction
  arc A159 (21.25, 99.6927) -> (21.1035, 100.0462) centre (20.75, 99.6927) ccw construction
  line L190 (21.1035, 100.0462) -> (17.178, 103.9717) construction
  arc A160 (17.178, 103.9717) -> (16.8245, 104.1182) centre (16.8245, 103.6182) ccw construction
  line L191 (16.8245, 104.1182) -> (14.0125, 104.1182) construction
  line L192 (14.0125, 104.1182) -> (13.0625, 104.6282) construction
  line L193 (13.0625, 104.6282) -> (12.1125, 104.1182) construction
  line L194 (12.1125, 104.1182) -> (9.1756, 104.1182) construction
  arc A161 (9.1756, 104.1182) -> (8.822, 103.9717) centre (9.1756, 103.6182) ccw construction
  line L195 (8.822, 103.9717) -> (4.8965, 100.0462) construction
  arc A162 (4.8965, 100.0462) -> (4.75, 99.6927) centre (5.25, 99.6927) ccw construction
  line L196 (4.75, 99.6927) -> (4.75, 97.7101) construction
  arc A163 (4.75, 97.7101) -> (5.2675, 97.2104) centre (5.25, 97.7101) ccw construction
  line L197 (5.2675, 97.2104) -> (8.5, 97.2104) construction
  arc A164 (9, 96.7104) -> (8.5, 97.2104) centre (8.5, 96.7104) ccw construction
  line L198 (9, 96.7104) -> (9, 95.4529) construction
  arc A165 (8.5, 94.9529) -> (9, 95.4529) centre (8.5, 95.4529) ccw construction
  line L199 (8.5, 94.9529) -> (0.0001, 94.9529) construction
  arc A166 (-1.9999, 96.9529) -> (0.0001, 94.9529) centre (0.0001, 96.9529) ccw construction
  line L200 (-1.9999, 96.9529) -> (-1.9999, 105.4529) construction
  arc A167 (-1.4999, 105.9529) -> (-1.9999, 105.4529) centre (-1.4999, 105.4529) ccw construction
  line L201 (-1.4999, 105.9529) -> (-0.2425, 105.9529) construction
  arc A168 (0.2575, 105.4529) -> (-0.2425, 105.9529) centre (-0.2425, 105.4529) ccw construction
  line L202 (0.2575, 105.4529) -> (0.2575, 102.2203) construction
  arc A169 (0.2575, 102.2203) -> (0.7572, 101.7029) centre (0.7572, 102.2029) ccw construction
  line L203 (0.7572, 101.7029) -> (2.7398, 101.7029) construction
  arc A170 (2.7398, 101.7029) -> (3.0934, 101.8493) centre (2.7398, 102.2029) ccw construction
  line L204 (3.0934, 101.8493) -> (7.0189, 105.7749) construction
  arc A171 (7.0189, 105.7749) -> (7.1653, 106.1284) centre (6.6653, 106.1284) ccw construction
  line L205 (7.1653, 106.1284) -> (7.1653, 109.0029) construction
  line L206 (7.1653, 109.0029) -> (7.6753, 109.9529) construction
  line L207 (7.6753, 109.9529) -> (7.1653, 110.9029) construction
  line L208 (7.1653, 110.9029) -> (7.1653, 113.7773) construction
  arc A172 (7.1653, 113.7773) -> (7.0189, 114.1309) centre (6.6653, 113.7773) ccw construction
  line L209 (7.0189, 114.1309) -> (3.0934, 118.0564) construction
  arc A173 (3.0934, 118.0564) -> (2.7398, 118.2028) centre (2.7398, 117.7028) ccw construction
  line L210 (2.7398, 118.2028) -> (0.7572, 118.2028) construction
  arc A174 (0.7572, 118.2028) -> (0.2575, 117.6854) centre (0.7572, 117.7028) ccw construction
  line L211 (0.2575, 117.6854) -> (0.2575, 114.4529) construction
  arc A175 (-0.2425, 113.9529) -> (0.2575, 114.4529) centre (-0.2425, 114.4529) ccw construction
  line L212 (-0.2425, 113.9529) -> (-1.4999, 113.9529) construction
  arc A176 (-1.9999, 114.4529) -> (-1.4999, 113.9529) centre (-1.4999, 114.4529) ccw construction
  line L213 (-1.9999, 114.4529) -> (-1.9999, 122.9528) construction
  arc A177 (0.0001, 124.9528) -> (-1.9999, 122.9528) centre (0.0001, 122.9528) ccw construction
  line L214 (0.0001, 124.9528) -> (8.5, 124.9528) construction
  arc A178 (9, 124.4528) -> (8.5, 124.9528) centre (8.5, 124.4528) ccw construction
  line L215 (9, 124.4528) -> (9, 123.1953) construction
  arc A179 (8.5, 122.6953) -> (9, 123.1953) centre (8.5, 123.1953) ccw construction
  line L216 (16.1981, 44.4942) -> (16.9799, 45.4733) construction
  arc A180 (16.9799, 45.4733) -> (15.4733, 46.9799) centre (16.1422, 46.1422) ccw construction
  line L217 (15.4733, 46.9799) -> (14.4942, 46.1981) construction
  arc A181 (14.4942, 46.1981) -> (11.5058, 46.1981) centre (13, 43) ccw construction
  line L218 (11.5058, 46.1981) -> (10.5267, 46.9799) construction
  arc A182 (10.5267, 46.9799) -> (9.0201, 45.4733) centre (9.8578, 46.1422) ccw construction
  line L219 (9.0201, 45.4733) -> (9.8019, 44.4942) construction
  arc A183 (9.8019, 44.4942) -> (9.8019, 41.5058) centre (13, 43) ccw construction
  line L220 (9.8019, 41.5058) -> (9.0201, 40.5267) construction
  arc A184 (9.0201, 40.5267) -> (10.5267, 39.0201) centre (9.8578, 39.8578) ccw construction
  line L221 (10.5267, 39.0201) -> (11.5058, 39.8019) construction
  arc A185 (11.5058, 39.8019) -> (14.4942, 39.8019) centre (13, 43) ccw construction
  line L222 (14.4942, 39.8019) -> (15.4733, 39.0201) construction
  arc A186 (15.4733, 39.0201) -> (16.9799, 40.5267) centre (16.1422, 39.8578) ccw construction
  line L223 (16.9799, 40.5267) -> (16.1981, 41.5058) construction
  arc A187 (16.1981, 41.5058) -> (16.1981, 44.4942) centre (13, 43) ccw construction
  line L224 (26.6999, 52.881) -> (26.6999, 55.6999) construction
  arc A188 (26.6999, 55.6999) -> (25.7, 56.6999) centre (25.7, 55.6999) ccw construction
  line L225 (25.7, 56.6999) -> (22.881, 56.6999) construction
  arc A189 (22.881, 56.6999) -> (22.5, 56.3189) centre (22.881, 56.3189) ccw construction
  line L226 (22.5, 56.3189) -> (22.5, 52.88) construction
  arc A190 (22.5, 52.88) -> (22.88, 52.5) centre (22.88, 52.88) ccw construction
  line L227 (22.88, 52.5) -> (26.319, 52.5) construction
  arc A191 (26.319, 52.5) -> (26.6999, 52.881) centre (26.319, 52.881) ccw construction
  line L228 (-0.6999, 33.119) -> (-0.6999, 30.3001) construction
  arc A192 (-0.6999, 30.3001) -> (0.3001, 29.3001) centre (0.3001, 30.3001) ccw construction
  line L229 (0.3001, 29.3001) -> (3.119, 29.3001) construction
  arc A193 (3.119, 29.3001) -> (3.5, 29.6811) centre (3.119, 29.6811) ccw construction
  line L230 (3.5, 29.6811) -> (3.5, 33.12) construction
  arc A194 (3.5, 33.12) -> (3.12, 33.5) centre (3.12, 33.12) ccw construction
  line L231 (3.12, 33.5) -> (-0.3189, 33.5) construction
  arc A195 (-0.3189, 33.5) -> (-0.6999, 33.119) centre (-0.3189, 33.119) ccw construction
  line L232 (22.881, 29.3001) -> (25.7, 29.3001) construction
  arc A196 (25.7, 29.3001) -> (26.6999, 30.3001) centre (25.7, 30.3001) ccw construction
  line L233 (26.6999, 30.3001) -> (26.6999, 33.119) construction
  arc A197 (26.6999, 33.119) -> (26.319, 33.5) centre (26.319, 33.119) ccw construction
  line L234 (26.319, 33.5) -> (22.88, 33.5) construction
  arc A198 (22.88, 33.5) -> (22.5, 33.12) centre (22.88, 33.12) ccw construction
  line L235 (22.5, 33.12) -> (22.5, 29.6811) construction
  arc A199 (22.5, 29.6811) -> (22.881, 29.3001) centre (22.881, 29.6811) ccw construction
  line L236 (-0.3189, 52.5) -> (3.12, 52.5) construction
  arc A200 (3.12, 52.5) -> (3.5, 52.88) centre (3.12, 52.88) ccw construction
  line L237 (3.5, 52.88) -> (3.5, 56.3189) construction
  arc A201 (3.5, 56.3189) -> (3.119, 56.6999) centre (3.119, 56.3189) ccw construction
  line L238 (3.119, 56.6999) -> (0.3001, 56.6999) construction
  arc A202 (0.3001, 56.6999) -> (-0.6999, 55.6999) centre (0.3001, 55.6999) ccw construction
  line L239 (-0.6999, 55.6999) -> (-0.6999, 52.881) construction
  arc A203 (-0.6999, 52.881) -> (-0.3189, 52.5) centre (-0.3189, 52.881) ccw construction
  line L240 (8.5, 55.7425) -> (5.2675, 55.7425) construction
  arc A204 (5.2675, 55.7425) -> (4.75, 55.2428) centre (5.25, 55.2428) ccw construction
  line L241 (4.75, 55.2428) -> (4.75, 53.2602) construction
  arc A205 (4.75, 53.2602) -> (4.8965, 52.9066) centre (5.25, 53.2602) ccw construction
  line L242 (4.8965, 52.9066) -> (8.822, 48.9811) construction
  arc A206 (8.822, 48.9811) -> (9.1756, 48.8347) centre (9.1756, 49.3347) ccw construction
  line L243 (9.1756, 48.8347) -> (12.1125, 48.8347) construction
  line L244 (12.1125, 48.8347) -> (13.0625, 48.3247) construction
  line L245 (13.0625, 48.3247) -> (14.0125, 48.8347) construction
  line L246 (14.0125, 48.8347) -> (16.8245, 48.8347) construction
  arc A207 (16.8245, 48.8347) -> (17.178, 48.9811) centre (16.8245, 49.3347) ccw construction
  line L247 (17.178, 48.9811) -> (21.1035, 52.9066) construction
  arc A208 (21.1035, 52.9066) -> (21.25, 53.2602) centre (20.75, 53.2602) ccw construction
  line L248 (21.25, 53.2602) -> (21.25, 55.2428) construction
  arc A209 (21.25, 55.2428) -> (20.7325, 55.7425) centre (20.75, 55.2428) ccw construction
  line L249 (20.7325, 55.7425) -> (17.5, 55.7425) construction
  arc A210 (17, 56.2425) -> (17.5, 55.7425) centre (17.5, 56.2425) ccw construction
  line L250 (17, 56.2425) -> (17, 57.4999) construction
  arc A211 (17.5, 57.9999) -> (17, 57.4999) centre (17.5, 57.4999) ccw construction
  line L251 (17.5, 57.9999) -> (26, 57.9999) construction
  arc A212 (27.9999, 55.9999) -> (26, 57.9999) centre (26, 55.9999) ccw construction
  line L252 (27.9999, 55.9999) -> (27.9999, 47.5) construction
  arc A213 (27.4999, 47) -> (27.9999, 47.5) centre (27.4999, 47.5) ccw construction
  line L253 (27.4999, 47) -> (26.2425, 47) construction
  arc A214 (25.7425, 47.5) -> (26.2425, 47) centre (26.2425, 47.5) ccw construction
  line L254 (25.7425, 47.5) -> (25.7425, 50.7325) construction
  arc A215 (25.7425, 50.7325) -> (25.2428, 51.25) centre (25.2428, 50.75) ccw construction
  line L255 (25.2428, 51.25) -> (23.2602, 51.25) construction
  arc A216 (23.2602, 51.25) -> (22.9066, 51.1035) centre (23.2602, 50.75) ccw construction
  line L256 (22.9066, 51.1035) -> (18.9811, 47.178) construction
  arc A217 (18.9811, 47.178) -> (18.8347, 46.8245) centre (19.3347, 46.8245) ccw construction
  line L257 (18.8347, 46.8245) -> (18.8347, 43.95) construction
  line L258 (18.8347, 43.95) -> (18.3247, 43) construction
  line L259 (18.3247, 43) -> (18.8347, 42.05) construction
  line L260 (18.8347, 42.05) -> (18.8347, 39.1755) construction
  arc A218 (18.8347, 39.1755) -> (18.9811, 38.822) centre (19.3347, 39.1755) ccw construction
  line L261 (18.9811, 38.822) -> (22.9066, 34.8965) construction
  arc A219 (22.9066, 34.8965) -> (23.2602, 34.75) centre (23.2602, 35.25) ccw construction
  line L262 (23.2602, 34.75) -> (25.2428, 34.75) construction
  arc A220 (25.2428, 34.75) -> (25.7425, 35.2675) centre (25.2428, 35.25) ccw construction
  line L263 (25.7425, 35.2675) -> (25.7425, 38.5) construction
  arc A221 (26.2425, 39) -> (25.7425, 38.5) centre (26.2425, 38.5) ccw construction
  line L264 (26.2425, 39) -> (27.4999, 39) construction
  arc A222 (27.9999, 38.5) -> (27.4999, 39) centre (27.4999, 38.5) ccw construction
  line L265 (27.9999, 38.5) -> (27.9999, 30.0001) construction
  arc A223 (26, 28.0001) -> (27.9999, 30.0001) centre (26, 30.0001) ccw construction
  line L266 (26, 28.0001) -> (17.5, 28.0001) construction
  arc A224 (17, 28.5001) -> (17.5, 28.0001) centre (17.5, 28.5001) ccw construction
  line L267 (17, 28.5001) -> (17, 29.7575) construction
  arc A225 (17.5, 30.2575) -> (17, 29.7575) centre (17.5, 29.7575) ccw construction
  line L268 (17.5, 30.2575) -> (20.7325, 30.2575) construction
  arc A226 (20.7325, 30.2575) -> (21.25, 30.7572) centre (20.75, 30.7572) ccw construction
  line L269 (21.25, 30.7572) -> (21.25, 32.7398) construction
  arc A227 (21.25, 32.7398) -> (21.1035, 33.0934) centre (20.75, 32.7398) ccw construction
  line L270 (21.1035, 33.0934) -> (17.178, 37.0189) construction
  arc A228 (17.178, 37.0189) -> (16.8245, 37.1653) centre (16.8245, 36.6653) ccw construction
  line L271 (16.8245, 37.1653) -> (14.0125, 37.1653) construction
  line L272 (14.0125, 37.1653) -> (13.0625, 37.6753) construction
  line L273 (13.0625, 37.6753) -> (12.1125, 37.1653) construction
  line L274 (12.1125, 37.1653) -> (9.1756, 37.1653) construction
  arc A229 (9.1756, 37.1653) -> (8.822, 37.0189) centre (9.1756, 36.6653) ccw construction
  line L275 (8.822, 37.0189) -> (4.8965, 33.0934) construction
  arc A230 (4.8965, 33.0934) -> (4.75, 32.7398) centre (5.25, 32.7398) ccw construction
  line L276 (4.75, 32.7398) -> (4.75, 30.7572) construction
  arc A231 (4.75, 30.7572) -> (5.2675, 30.2575) centre (5.25, 30.7572) ccw construction
  line L277 (5.2675, 30.2575) -> (8.5, 30.2575) construction
  arc A232 (9, 29.7575) -> (8.5, 30.2575) centre (8.5, 29.7575) ccw construction
  line L278 (9, 29.7575) -> (9, 28.5001) construction
  arc A233 (8.5, 28.0001) -> (9, 28.5001) centre (8.5, 28.5001) ccw construction
  line L279 (8.5, 28.0001) -> (0.0001, 28.0001) construction
  arc A234 (-1.9999, 30.0001) -> (0.0001, 28.0001) centre (0.0001, 30.0001) ccw construction
  line L280 (-1.9999, 30.0001) -> (-1.9999, 38.5) construction
  arc A235 (-1.4999, 39) -> (-1.9999, 38.5) centre (-1.4999, 38.5) ccw construction
  line L281 (-1.4999, 39) -> (-0.2425, 39) construction
  arc A236 (0.2575, 38.5) -> (-0.2425, 39) centre (-0.2425, 38.5) ccw construction
  line L282 (0.2575, 38.5) -> (0.2575, 35.2675) construction
  arc A237 (0.2575, 35.2675) -> (0.7572, 34.75) centre (0.7572, 35.25) ccw construction
  line L283 (0.7572, 34.75) -> (2.7398, 34.75) construction
  arc A238 (2.7398, 34.75) -> (3.0934, 34.8965) centre (2.7398, 35.25) ccw construction
  line L284 (3.0934, 34.8965) -> (7.0189, 38.822) construction
  arc A239 (7.0189, 38.822) -> (7.1653, 39.1755) centre (6.6653, 39.1755) ccw construction
  line L285 (7.1653, 39.1755) -> (7.1653, 42.05) construction
  line L286 (7.1653, 42.05) -> (7.6753, 43) construction
  line L287 (7.6753, 43) -> (7.1653, 43.95) construction
  line L288 (7.1653, 43.95) -> (7.1653, 46.8245) construction
  arc A240 (7.1653, 46.8245) -> (7.0189, 47.178) centre (6.6653, 46.8245) ccw construction
  line L289 (7.0189, 47.178) -> (3.0934, 51.1035) construction
  arc A241 (3.0934, 51.1035) -> (2.7398, 51.25) centre (2.7398, 50.75) ccw construction
  line L290 (2.7398, 51.25) -> (0.7572, 51.25) construction
  arc A242 (0.7572, 51.25) -> (0.2575, 50.7325) centre (0.7572, 50.75) ccw construction
  line L291 (0.2575, 50.7325) -> (0.2575, 47.5) construction
  arc A243 (-0.2425, 47) -> (0.2575, 47.5) centre (-0.2425, 47.5) ccw construction
  line L292 (-0.2425, 47) -> (-1.4999, 47) construction
  arc A244 (-1.9999, 47.5) -> (-1.4999, 47) centre (-1.4999, 47.5) ccw construction
  line L293 (-1.9999, 47.5) -> (-1.9999, 55.9999) construction
  arc A245 (0.0001, 57.9999) -> (-1.9999, 55.9999) centre (0.0001, 55.9999) ccw construction
  line L294 (0.0001, 57.9999) -> (8.5, 57.9999) construction
  arc A246 (9, 57.4999) -> (8.5, 57.9999) centre (8.5, 57.4999) ccw construction
  line L295 (9, 57.4999) -> (9, 56.2425) construction
  arc A247 (8.5, 55.7425) -> (9, 56.2425) centre (8.5, 56.2425) ccw construction
  line L296 (57.9999, 15.0099) -> (57.9999, 165.0067) construction
  line L297 (57.9999, 165.0067) -> (-1.9999, 165.0067)
  line L298 (-1.9999, 165.0067) -> (-1.9999, 14.9999)
  line L299 (-1.9999, 14.9999) -> (57.9999, 14.9999)
  line L300 (57.9999, 14.9999) -> (57.9999, 165.0067)
  circle A248 centre (13, 154.9529) radius 3.75
  circle A249 centre (13, 43) radius 3.75
  line L301 (13, 154.9529) -> (13, 43) construction
  line L302 (18.3247, 109.9529) -> (7.6753, 109.9529) construction
  circle A250 centre (13, 109.9529) radius 3.75
  point P0 (0, 0)
  dimension "d0" = 150.0068
  dimension "d1" = 59.9998
  dimension "d2" = 7.5
extrude "Plate1" add sketch "Sketch1" along normal blind 2
equation "\"BendRadius\" = Thickness"
equation "\"BendReliefWidth\" = Thickness"
equation "\"BendReliefDepth\" = 0.5 * Thickness"
equation "\"CornerReliefSize\" = 4 * Thickness"
equation "\"MinimumRemnant\" = 2 * Thickness"
equation "\"TransitionRadius\" = BendRadius"
equation "\"JacobiRadiusSize\" = BendRadius"
equation "\"GapSize\" = Thickness"
equation "\"d3\" = BendRadius"
equation "\"Thickness\" = 2"
properties part number "gabarito-suporte-motor-embaixo" material "Wood (Oak)"
